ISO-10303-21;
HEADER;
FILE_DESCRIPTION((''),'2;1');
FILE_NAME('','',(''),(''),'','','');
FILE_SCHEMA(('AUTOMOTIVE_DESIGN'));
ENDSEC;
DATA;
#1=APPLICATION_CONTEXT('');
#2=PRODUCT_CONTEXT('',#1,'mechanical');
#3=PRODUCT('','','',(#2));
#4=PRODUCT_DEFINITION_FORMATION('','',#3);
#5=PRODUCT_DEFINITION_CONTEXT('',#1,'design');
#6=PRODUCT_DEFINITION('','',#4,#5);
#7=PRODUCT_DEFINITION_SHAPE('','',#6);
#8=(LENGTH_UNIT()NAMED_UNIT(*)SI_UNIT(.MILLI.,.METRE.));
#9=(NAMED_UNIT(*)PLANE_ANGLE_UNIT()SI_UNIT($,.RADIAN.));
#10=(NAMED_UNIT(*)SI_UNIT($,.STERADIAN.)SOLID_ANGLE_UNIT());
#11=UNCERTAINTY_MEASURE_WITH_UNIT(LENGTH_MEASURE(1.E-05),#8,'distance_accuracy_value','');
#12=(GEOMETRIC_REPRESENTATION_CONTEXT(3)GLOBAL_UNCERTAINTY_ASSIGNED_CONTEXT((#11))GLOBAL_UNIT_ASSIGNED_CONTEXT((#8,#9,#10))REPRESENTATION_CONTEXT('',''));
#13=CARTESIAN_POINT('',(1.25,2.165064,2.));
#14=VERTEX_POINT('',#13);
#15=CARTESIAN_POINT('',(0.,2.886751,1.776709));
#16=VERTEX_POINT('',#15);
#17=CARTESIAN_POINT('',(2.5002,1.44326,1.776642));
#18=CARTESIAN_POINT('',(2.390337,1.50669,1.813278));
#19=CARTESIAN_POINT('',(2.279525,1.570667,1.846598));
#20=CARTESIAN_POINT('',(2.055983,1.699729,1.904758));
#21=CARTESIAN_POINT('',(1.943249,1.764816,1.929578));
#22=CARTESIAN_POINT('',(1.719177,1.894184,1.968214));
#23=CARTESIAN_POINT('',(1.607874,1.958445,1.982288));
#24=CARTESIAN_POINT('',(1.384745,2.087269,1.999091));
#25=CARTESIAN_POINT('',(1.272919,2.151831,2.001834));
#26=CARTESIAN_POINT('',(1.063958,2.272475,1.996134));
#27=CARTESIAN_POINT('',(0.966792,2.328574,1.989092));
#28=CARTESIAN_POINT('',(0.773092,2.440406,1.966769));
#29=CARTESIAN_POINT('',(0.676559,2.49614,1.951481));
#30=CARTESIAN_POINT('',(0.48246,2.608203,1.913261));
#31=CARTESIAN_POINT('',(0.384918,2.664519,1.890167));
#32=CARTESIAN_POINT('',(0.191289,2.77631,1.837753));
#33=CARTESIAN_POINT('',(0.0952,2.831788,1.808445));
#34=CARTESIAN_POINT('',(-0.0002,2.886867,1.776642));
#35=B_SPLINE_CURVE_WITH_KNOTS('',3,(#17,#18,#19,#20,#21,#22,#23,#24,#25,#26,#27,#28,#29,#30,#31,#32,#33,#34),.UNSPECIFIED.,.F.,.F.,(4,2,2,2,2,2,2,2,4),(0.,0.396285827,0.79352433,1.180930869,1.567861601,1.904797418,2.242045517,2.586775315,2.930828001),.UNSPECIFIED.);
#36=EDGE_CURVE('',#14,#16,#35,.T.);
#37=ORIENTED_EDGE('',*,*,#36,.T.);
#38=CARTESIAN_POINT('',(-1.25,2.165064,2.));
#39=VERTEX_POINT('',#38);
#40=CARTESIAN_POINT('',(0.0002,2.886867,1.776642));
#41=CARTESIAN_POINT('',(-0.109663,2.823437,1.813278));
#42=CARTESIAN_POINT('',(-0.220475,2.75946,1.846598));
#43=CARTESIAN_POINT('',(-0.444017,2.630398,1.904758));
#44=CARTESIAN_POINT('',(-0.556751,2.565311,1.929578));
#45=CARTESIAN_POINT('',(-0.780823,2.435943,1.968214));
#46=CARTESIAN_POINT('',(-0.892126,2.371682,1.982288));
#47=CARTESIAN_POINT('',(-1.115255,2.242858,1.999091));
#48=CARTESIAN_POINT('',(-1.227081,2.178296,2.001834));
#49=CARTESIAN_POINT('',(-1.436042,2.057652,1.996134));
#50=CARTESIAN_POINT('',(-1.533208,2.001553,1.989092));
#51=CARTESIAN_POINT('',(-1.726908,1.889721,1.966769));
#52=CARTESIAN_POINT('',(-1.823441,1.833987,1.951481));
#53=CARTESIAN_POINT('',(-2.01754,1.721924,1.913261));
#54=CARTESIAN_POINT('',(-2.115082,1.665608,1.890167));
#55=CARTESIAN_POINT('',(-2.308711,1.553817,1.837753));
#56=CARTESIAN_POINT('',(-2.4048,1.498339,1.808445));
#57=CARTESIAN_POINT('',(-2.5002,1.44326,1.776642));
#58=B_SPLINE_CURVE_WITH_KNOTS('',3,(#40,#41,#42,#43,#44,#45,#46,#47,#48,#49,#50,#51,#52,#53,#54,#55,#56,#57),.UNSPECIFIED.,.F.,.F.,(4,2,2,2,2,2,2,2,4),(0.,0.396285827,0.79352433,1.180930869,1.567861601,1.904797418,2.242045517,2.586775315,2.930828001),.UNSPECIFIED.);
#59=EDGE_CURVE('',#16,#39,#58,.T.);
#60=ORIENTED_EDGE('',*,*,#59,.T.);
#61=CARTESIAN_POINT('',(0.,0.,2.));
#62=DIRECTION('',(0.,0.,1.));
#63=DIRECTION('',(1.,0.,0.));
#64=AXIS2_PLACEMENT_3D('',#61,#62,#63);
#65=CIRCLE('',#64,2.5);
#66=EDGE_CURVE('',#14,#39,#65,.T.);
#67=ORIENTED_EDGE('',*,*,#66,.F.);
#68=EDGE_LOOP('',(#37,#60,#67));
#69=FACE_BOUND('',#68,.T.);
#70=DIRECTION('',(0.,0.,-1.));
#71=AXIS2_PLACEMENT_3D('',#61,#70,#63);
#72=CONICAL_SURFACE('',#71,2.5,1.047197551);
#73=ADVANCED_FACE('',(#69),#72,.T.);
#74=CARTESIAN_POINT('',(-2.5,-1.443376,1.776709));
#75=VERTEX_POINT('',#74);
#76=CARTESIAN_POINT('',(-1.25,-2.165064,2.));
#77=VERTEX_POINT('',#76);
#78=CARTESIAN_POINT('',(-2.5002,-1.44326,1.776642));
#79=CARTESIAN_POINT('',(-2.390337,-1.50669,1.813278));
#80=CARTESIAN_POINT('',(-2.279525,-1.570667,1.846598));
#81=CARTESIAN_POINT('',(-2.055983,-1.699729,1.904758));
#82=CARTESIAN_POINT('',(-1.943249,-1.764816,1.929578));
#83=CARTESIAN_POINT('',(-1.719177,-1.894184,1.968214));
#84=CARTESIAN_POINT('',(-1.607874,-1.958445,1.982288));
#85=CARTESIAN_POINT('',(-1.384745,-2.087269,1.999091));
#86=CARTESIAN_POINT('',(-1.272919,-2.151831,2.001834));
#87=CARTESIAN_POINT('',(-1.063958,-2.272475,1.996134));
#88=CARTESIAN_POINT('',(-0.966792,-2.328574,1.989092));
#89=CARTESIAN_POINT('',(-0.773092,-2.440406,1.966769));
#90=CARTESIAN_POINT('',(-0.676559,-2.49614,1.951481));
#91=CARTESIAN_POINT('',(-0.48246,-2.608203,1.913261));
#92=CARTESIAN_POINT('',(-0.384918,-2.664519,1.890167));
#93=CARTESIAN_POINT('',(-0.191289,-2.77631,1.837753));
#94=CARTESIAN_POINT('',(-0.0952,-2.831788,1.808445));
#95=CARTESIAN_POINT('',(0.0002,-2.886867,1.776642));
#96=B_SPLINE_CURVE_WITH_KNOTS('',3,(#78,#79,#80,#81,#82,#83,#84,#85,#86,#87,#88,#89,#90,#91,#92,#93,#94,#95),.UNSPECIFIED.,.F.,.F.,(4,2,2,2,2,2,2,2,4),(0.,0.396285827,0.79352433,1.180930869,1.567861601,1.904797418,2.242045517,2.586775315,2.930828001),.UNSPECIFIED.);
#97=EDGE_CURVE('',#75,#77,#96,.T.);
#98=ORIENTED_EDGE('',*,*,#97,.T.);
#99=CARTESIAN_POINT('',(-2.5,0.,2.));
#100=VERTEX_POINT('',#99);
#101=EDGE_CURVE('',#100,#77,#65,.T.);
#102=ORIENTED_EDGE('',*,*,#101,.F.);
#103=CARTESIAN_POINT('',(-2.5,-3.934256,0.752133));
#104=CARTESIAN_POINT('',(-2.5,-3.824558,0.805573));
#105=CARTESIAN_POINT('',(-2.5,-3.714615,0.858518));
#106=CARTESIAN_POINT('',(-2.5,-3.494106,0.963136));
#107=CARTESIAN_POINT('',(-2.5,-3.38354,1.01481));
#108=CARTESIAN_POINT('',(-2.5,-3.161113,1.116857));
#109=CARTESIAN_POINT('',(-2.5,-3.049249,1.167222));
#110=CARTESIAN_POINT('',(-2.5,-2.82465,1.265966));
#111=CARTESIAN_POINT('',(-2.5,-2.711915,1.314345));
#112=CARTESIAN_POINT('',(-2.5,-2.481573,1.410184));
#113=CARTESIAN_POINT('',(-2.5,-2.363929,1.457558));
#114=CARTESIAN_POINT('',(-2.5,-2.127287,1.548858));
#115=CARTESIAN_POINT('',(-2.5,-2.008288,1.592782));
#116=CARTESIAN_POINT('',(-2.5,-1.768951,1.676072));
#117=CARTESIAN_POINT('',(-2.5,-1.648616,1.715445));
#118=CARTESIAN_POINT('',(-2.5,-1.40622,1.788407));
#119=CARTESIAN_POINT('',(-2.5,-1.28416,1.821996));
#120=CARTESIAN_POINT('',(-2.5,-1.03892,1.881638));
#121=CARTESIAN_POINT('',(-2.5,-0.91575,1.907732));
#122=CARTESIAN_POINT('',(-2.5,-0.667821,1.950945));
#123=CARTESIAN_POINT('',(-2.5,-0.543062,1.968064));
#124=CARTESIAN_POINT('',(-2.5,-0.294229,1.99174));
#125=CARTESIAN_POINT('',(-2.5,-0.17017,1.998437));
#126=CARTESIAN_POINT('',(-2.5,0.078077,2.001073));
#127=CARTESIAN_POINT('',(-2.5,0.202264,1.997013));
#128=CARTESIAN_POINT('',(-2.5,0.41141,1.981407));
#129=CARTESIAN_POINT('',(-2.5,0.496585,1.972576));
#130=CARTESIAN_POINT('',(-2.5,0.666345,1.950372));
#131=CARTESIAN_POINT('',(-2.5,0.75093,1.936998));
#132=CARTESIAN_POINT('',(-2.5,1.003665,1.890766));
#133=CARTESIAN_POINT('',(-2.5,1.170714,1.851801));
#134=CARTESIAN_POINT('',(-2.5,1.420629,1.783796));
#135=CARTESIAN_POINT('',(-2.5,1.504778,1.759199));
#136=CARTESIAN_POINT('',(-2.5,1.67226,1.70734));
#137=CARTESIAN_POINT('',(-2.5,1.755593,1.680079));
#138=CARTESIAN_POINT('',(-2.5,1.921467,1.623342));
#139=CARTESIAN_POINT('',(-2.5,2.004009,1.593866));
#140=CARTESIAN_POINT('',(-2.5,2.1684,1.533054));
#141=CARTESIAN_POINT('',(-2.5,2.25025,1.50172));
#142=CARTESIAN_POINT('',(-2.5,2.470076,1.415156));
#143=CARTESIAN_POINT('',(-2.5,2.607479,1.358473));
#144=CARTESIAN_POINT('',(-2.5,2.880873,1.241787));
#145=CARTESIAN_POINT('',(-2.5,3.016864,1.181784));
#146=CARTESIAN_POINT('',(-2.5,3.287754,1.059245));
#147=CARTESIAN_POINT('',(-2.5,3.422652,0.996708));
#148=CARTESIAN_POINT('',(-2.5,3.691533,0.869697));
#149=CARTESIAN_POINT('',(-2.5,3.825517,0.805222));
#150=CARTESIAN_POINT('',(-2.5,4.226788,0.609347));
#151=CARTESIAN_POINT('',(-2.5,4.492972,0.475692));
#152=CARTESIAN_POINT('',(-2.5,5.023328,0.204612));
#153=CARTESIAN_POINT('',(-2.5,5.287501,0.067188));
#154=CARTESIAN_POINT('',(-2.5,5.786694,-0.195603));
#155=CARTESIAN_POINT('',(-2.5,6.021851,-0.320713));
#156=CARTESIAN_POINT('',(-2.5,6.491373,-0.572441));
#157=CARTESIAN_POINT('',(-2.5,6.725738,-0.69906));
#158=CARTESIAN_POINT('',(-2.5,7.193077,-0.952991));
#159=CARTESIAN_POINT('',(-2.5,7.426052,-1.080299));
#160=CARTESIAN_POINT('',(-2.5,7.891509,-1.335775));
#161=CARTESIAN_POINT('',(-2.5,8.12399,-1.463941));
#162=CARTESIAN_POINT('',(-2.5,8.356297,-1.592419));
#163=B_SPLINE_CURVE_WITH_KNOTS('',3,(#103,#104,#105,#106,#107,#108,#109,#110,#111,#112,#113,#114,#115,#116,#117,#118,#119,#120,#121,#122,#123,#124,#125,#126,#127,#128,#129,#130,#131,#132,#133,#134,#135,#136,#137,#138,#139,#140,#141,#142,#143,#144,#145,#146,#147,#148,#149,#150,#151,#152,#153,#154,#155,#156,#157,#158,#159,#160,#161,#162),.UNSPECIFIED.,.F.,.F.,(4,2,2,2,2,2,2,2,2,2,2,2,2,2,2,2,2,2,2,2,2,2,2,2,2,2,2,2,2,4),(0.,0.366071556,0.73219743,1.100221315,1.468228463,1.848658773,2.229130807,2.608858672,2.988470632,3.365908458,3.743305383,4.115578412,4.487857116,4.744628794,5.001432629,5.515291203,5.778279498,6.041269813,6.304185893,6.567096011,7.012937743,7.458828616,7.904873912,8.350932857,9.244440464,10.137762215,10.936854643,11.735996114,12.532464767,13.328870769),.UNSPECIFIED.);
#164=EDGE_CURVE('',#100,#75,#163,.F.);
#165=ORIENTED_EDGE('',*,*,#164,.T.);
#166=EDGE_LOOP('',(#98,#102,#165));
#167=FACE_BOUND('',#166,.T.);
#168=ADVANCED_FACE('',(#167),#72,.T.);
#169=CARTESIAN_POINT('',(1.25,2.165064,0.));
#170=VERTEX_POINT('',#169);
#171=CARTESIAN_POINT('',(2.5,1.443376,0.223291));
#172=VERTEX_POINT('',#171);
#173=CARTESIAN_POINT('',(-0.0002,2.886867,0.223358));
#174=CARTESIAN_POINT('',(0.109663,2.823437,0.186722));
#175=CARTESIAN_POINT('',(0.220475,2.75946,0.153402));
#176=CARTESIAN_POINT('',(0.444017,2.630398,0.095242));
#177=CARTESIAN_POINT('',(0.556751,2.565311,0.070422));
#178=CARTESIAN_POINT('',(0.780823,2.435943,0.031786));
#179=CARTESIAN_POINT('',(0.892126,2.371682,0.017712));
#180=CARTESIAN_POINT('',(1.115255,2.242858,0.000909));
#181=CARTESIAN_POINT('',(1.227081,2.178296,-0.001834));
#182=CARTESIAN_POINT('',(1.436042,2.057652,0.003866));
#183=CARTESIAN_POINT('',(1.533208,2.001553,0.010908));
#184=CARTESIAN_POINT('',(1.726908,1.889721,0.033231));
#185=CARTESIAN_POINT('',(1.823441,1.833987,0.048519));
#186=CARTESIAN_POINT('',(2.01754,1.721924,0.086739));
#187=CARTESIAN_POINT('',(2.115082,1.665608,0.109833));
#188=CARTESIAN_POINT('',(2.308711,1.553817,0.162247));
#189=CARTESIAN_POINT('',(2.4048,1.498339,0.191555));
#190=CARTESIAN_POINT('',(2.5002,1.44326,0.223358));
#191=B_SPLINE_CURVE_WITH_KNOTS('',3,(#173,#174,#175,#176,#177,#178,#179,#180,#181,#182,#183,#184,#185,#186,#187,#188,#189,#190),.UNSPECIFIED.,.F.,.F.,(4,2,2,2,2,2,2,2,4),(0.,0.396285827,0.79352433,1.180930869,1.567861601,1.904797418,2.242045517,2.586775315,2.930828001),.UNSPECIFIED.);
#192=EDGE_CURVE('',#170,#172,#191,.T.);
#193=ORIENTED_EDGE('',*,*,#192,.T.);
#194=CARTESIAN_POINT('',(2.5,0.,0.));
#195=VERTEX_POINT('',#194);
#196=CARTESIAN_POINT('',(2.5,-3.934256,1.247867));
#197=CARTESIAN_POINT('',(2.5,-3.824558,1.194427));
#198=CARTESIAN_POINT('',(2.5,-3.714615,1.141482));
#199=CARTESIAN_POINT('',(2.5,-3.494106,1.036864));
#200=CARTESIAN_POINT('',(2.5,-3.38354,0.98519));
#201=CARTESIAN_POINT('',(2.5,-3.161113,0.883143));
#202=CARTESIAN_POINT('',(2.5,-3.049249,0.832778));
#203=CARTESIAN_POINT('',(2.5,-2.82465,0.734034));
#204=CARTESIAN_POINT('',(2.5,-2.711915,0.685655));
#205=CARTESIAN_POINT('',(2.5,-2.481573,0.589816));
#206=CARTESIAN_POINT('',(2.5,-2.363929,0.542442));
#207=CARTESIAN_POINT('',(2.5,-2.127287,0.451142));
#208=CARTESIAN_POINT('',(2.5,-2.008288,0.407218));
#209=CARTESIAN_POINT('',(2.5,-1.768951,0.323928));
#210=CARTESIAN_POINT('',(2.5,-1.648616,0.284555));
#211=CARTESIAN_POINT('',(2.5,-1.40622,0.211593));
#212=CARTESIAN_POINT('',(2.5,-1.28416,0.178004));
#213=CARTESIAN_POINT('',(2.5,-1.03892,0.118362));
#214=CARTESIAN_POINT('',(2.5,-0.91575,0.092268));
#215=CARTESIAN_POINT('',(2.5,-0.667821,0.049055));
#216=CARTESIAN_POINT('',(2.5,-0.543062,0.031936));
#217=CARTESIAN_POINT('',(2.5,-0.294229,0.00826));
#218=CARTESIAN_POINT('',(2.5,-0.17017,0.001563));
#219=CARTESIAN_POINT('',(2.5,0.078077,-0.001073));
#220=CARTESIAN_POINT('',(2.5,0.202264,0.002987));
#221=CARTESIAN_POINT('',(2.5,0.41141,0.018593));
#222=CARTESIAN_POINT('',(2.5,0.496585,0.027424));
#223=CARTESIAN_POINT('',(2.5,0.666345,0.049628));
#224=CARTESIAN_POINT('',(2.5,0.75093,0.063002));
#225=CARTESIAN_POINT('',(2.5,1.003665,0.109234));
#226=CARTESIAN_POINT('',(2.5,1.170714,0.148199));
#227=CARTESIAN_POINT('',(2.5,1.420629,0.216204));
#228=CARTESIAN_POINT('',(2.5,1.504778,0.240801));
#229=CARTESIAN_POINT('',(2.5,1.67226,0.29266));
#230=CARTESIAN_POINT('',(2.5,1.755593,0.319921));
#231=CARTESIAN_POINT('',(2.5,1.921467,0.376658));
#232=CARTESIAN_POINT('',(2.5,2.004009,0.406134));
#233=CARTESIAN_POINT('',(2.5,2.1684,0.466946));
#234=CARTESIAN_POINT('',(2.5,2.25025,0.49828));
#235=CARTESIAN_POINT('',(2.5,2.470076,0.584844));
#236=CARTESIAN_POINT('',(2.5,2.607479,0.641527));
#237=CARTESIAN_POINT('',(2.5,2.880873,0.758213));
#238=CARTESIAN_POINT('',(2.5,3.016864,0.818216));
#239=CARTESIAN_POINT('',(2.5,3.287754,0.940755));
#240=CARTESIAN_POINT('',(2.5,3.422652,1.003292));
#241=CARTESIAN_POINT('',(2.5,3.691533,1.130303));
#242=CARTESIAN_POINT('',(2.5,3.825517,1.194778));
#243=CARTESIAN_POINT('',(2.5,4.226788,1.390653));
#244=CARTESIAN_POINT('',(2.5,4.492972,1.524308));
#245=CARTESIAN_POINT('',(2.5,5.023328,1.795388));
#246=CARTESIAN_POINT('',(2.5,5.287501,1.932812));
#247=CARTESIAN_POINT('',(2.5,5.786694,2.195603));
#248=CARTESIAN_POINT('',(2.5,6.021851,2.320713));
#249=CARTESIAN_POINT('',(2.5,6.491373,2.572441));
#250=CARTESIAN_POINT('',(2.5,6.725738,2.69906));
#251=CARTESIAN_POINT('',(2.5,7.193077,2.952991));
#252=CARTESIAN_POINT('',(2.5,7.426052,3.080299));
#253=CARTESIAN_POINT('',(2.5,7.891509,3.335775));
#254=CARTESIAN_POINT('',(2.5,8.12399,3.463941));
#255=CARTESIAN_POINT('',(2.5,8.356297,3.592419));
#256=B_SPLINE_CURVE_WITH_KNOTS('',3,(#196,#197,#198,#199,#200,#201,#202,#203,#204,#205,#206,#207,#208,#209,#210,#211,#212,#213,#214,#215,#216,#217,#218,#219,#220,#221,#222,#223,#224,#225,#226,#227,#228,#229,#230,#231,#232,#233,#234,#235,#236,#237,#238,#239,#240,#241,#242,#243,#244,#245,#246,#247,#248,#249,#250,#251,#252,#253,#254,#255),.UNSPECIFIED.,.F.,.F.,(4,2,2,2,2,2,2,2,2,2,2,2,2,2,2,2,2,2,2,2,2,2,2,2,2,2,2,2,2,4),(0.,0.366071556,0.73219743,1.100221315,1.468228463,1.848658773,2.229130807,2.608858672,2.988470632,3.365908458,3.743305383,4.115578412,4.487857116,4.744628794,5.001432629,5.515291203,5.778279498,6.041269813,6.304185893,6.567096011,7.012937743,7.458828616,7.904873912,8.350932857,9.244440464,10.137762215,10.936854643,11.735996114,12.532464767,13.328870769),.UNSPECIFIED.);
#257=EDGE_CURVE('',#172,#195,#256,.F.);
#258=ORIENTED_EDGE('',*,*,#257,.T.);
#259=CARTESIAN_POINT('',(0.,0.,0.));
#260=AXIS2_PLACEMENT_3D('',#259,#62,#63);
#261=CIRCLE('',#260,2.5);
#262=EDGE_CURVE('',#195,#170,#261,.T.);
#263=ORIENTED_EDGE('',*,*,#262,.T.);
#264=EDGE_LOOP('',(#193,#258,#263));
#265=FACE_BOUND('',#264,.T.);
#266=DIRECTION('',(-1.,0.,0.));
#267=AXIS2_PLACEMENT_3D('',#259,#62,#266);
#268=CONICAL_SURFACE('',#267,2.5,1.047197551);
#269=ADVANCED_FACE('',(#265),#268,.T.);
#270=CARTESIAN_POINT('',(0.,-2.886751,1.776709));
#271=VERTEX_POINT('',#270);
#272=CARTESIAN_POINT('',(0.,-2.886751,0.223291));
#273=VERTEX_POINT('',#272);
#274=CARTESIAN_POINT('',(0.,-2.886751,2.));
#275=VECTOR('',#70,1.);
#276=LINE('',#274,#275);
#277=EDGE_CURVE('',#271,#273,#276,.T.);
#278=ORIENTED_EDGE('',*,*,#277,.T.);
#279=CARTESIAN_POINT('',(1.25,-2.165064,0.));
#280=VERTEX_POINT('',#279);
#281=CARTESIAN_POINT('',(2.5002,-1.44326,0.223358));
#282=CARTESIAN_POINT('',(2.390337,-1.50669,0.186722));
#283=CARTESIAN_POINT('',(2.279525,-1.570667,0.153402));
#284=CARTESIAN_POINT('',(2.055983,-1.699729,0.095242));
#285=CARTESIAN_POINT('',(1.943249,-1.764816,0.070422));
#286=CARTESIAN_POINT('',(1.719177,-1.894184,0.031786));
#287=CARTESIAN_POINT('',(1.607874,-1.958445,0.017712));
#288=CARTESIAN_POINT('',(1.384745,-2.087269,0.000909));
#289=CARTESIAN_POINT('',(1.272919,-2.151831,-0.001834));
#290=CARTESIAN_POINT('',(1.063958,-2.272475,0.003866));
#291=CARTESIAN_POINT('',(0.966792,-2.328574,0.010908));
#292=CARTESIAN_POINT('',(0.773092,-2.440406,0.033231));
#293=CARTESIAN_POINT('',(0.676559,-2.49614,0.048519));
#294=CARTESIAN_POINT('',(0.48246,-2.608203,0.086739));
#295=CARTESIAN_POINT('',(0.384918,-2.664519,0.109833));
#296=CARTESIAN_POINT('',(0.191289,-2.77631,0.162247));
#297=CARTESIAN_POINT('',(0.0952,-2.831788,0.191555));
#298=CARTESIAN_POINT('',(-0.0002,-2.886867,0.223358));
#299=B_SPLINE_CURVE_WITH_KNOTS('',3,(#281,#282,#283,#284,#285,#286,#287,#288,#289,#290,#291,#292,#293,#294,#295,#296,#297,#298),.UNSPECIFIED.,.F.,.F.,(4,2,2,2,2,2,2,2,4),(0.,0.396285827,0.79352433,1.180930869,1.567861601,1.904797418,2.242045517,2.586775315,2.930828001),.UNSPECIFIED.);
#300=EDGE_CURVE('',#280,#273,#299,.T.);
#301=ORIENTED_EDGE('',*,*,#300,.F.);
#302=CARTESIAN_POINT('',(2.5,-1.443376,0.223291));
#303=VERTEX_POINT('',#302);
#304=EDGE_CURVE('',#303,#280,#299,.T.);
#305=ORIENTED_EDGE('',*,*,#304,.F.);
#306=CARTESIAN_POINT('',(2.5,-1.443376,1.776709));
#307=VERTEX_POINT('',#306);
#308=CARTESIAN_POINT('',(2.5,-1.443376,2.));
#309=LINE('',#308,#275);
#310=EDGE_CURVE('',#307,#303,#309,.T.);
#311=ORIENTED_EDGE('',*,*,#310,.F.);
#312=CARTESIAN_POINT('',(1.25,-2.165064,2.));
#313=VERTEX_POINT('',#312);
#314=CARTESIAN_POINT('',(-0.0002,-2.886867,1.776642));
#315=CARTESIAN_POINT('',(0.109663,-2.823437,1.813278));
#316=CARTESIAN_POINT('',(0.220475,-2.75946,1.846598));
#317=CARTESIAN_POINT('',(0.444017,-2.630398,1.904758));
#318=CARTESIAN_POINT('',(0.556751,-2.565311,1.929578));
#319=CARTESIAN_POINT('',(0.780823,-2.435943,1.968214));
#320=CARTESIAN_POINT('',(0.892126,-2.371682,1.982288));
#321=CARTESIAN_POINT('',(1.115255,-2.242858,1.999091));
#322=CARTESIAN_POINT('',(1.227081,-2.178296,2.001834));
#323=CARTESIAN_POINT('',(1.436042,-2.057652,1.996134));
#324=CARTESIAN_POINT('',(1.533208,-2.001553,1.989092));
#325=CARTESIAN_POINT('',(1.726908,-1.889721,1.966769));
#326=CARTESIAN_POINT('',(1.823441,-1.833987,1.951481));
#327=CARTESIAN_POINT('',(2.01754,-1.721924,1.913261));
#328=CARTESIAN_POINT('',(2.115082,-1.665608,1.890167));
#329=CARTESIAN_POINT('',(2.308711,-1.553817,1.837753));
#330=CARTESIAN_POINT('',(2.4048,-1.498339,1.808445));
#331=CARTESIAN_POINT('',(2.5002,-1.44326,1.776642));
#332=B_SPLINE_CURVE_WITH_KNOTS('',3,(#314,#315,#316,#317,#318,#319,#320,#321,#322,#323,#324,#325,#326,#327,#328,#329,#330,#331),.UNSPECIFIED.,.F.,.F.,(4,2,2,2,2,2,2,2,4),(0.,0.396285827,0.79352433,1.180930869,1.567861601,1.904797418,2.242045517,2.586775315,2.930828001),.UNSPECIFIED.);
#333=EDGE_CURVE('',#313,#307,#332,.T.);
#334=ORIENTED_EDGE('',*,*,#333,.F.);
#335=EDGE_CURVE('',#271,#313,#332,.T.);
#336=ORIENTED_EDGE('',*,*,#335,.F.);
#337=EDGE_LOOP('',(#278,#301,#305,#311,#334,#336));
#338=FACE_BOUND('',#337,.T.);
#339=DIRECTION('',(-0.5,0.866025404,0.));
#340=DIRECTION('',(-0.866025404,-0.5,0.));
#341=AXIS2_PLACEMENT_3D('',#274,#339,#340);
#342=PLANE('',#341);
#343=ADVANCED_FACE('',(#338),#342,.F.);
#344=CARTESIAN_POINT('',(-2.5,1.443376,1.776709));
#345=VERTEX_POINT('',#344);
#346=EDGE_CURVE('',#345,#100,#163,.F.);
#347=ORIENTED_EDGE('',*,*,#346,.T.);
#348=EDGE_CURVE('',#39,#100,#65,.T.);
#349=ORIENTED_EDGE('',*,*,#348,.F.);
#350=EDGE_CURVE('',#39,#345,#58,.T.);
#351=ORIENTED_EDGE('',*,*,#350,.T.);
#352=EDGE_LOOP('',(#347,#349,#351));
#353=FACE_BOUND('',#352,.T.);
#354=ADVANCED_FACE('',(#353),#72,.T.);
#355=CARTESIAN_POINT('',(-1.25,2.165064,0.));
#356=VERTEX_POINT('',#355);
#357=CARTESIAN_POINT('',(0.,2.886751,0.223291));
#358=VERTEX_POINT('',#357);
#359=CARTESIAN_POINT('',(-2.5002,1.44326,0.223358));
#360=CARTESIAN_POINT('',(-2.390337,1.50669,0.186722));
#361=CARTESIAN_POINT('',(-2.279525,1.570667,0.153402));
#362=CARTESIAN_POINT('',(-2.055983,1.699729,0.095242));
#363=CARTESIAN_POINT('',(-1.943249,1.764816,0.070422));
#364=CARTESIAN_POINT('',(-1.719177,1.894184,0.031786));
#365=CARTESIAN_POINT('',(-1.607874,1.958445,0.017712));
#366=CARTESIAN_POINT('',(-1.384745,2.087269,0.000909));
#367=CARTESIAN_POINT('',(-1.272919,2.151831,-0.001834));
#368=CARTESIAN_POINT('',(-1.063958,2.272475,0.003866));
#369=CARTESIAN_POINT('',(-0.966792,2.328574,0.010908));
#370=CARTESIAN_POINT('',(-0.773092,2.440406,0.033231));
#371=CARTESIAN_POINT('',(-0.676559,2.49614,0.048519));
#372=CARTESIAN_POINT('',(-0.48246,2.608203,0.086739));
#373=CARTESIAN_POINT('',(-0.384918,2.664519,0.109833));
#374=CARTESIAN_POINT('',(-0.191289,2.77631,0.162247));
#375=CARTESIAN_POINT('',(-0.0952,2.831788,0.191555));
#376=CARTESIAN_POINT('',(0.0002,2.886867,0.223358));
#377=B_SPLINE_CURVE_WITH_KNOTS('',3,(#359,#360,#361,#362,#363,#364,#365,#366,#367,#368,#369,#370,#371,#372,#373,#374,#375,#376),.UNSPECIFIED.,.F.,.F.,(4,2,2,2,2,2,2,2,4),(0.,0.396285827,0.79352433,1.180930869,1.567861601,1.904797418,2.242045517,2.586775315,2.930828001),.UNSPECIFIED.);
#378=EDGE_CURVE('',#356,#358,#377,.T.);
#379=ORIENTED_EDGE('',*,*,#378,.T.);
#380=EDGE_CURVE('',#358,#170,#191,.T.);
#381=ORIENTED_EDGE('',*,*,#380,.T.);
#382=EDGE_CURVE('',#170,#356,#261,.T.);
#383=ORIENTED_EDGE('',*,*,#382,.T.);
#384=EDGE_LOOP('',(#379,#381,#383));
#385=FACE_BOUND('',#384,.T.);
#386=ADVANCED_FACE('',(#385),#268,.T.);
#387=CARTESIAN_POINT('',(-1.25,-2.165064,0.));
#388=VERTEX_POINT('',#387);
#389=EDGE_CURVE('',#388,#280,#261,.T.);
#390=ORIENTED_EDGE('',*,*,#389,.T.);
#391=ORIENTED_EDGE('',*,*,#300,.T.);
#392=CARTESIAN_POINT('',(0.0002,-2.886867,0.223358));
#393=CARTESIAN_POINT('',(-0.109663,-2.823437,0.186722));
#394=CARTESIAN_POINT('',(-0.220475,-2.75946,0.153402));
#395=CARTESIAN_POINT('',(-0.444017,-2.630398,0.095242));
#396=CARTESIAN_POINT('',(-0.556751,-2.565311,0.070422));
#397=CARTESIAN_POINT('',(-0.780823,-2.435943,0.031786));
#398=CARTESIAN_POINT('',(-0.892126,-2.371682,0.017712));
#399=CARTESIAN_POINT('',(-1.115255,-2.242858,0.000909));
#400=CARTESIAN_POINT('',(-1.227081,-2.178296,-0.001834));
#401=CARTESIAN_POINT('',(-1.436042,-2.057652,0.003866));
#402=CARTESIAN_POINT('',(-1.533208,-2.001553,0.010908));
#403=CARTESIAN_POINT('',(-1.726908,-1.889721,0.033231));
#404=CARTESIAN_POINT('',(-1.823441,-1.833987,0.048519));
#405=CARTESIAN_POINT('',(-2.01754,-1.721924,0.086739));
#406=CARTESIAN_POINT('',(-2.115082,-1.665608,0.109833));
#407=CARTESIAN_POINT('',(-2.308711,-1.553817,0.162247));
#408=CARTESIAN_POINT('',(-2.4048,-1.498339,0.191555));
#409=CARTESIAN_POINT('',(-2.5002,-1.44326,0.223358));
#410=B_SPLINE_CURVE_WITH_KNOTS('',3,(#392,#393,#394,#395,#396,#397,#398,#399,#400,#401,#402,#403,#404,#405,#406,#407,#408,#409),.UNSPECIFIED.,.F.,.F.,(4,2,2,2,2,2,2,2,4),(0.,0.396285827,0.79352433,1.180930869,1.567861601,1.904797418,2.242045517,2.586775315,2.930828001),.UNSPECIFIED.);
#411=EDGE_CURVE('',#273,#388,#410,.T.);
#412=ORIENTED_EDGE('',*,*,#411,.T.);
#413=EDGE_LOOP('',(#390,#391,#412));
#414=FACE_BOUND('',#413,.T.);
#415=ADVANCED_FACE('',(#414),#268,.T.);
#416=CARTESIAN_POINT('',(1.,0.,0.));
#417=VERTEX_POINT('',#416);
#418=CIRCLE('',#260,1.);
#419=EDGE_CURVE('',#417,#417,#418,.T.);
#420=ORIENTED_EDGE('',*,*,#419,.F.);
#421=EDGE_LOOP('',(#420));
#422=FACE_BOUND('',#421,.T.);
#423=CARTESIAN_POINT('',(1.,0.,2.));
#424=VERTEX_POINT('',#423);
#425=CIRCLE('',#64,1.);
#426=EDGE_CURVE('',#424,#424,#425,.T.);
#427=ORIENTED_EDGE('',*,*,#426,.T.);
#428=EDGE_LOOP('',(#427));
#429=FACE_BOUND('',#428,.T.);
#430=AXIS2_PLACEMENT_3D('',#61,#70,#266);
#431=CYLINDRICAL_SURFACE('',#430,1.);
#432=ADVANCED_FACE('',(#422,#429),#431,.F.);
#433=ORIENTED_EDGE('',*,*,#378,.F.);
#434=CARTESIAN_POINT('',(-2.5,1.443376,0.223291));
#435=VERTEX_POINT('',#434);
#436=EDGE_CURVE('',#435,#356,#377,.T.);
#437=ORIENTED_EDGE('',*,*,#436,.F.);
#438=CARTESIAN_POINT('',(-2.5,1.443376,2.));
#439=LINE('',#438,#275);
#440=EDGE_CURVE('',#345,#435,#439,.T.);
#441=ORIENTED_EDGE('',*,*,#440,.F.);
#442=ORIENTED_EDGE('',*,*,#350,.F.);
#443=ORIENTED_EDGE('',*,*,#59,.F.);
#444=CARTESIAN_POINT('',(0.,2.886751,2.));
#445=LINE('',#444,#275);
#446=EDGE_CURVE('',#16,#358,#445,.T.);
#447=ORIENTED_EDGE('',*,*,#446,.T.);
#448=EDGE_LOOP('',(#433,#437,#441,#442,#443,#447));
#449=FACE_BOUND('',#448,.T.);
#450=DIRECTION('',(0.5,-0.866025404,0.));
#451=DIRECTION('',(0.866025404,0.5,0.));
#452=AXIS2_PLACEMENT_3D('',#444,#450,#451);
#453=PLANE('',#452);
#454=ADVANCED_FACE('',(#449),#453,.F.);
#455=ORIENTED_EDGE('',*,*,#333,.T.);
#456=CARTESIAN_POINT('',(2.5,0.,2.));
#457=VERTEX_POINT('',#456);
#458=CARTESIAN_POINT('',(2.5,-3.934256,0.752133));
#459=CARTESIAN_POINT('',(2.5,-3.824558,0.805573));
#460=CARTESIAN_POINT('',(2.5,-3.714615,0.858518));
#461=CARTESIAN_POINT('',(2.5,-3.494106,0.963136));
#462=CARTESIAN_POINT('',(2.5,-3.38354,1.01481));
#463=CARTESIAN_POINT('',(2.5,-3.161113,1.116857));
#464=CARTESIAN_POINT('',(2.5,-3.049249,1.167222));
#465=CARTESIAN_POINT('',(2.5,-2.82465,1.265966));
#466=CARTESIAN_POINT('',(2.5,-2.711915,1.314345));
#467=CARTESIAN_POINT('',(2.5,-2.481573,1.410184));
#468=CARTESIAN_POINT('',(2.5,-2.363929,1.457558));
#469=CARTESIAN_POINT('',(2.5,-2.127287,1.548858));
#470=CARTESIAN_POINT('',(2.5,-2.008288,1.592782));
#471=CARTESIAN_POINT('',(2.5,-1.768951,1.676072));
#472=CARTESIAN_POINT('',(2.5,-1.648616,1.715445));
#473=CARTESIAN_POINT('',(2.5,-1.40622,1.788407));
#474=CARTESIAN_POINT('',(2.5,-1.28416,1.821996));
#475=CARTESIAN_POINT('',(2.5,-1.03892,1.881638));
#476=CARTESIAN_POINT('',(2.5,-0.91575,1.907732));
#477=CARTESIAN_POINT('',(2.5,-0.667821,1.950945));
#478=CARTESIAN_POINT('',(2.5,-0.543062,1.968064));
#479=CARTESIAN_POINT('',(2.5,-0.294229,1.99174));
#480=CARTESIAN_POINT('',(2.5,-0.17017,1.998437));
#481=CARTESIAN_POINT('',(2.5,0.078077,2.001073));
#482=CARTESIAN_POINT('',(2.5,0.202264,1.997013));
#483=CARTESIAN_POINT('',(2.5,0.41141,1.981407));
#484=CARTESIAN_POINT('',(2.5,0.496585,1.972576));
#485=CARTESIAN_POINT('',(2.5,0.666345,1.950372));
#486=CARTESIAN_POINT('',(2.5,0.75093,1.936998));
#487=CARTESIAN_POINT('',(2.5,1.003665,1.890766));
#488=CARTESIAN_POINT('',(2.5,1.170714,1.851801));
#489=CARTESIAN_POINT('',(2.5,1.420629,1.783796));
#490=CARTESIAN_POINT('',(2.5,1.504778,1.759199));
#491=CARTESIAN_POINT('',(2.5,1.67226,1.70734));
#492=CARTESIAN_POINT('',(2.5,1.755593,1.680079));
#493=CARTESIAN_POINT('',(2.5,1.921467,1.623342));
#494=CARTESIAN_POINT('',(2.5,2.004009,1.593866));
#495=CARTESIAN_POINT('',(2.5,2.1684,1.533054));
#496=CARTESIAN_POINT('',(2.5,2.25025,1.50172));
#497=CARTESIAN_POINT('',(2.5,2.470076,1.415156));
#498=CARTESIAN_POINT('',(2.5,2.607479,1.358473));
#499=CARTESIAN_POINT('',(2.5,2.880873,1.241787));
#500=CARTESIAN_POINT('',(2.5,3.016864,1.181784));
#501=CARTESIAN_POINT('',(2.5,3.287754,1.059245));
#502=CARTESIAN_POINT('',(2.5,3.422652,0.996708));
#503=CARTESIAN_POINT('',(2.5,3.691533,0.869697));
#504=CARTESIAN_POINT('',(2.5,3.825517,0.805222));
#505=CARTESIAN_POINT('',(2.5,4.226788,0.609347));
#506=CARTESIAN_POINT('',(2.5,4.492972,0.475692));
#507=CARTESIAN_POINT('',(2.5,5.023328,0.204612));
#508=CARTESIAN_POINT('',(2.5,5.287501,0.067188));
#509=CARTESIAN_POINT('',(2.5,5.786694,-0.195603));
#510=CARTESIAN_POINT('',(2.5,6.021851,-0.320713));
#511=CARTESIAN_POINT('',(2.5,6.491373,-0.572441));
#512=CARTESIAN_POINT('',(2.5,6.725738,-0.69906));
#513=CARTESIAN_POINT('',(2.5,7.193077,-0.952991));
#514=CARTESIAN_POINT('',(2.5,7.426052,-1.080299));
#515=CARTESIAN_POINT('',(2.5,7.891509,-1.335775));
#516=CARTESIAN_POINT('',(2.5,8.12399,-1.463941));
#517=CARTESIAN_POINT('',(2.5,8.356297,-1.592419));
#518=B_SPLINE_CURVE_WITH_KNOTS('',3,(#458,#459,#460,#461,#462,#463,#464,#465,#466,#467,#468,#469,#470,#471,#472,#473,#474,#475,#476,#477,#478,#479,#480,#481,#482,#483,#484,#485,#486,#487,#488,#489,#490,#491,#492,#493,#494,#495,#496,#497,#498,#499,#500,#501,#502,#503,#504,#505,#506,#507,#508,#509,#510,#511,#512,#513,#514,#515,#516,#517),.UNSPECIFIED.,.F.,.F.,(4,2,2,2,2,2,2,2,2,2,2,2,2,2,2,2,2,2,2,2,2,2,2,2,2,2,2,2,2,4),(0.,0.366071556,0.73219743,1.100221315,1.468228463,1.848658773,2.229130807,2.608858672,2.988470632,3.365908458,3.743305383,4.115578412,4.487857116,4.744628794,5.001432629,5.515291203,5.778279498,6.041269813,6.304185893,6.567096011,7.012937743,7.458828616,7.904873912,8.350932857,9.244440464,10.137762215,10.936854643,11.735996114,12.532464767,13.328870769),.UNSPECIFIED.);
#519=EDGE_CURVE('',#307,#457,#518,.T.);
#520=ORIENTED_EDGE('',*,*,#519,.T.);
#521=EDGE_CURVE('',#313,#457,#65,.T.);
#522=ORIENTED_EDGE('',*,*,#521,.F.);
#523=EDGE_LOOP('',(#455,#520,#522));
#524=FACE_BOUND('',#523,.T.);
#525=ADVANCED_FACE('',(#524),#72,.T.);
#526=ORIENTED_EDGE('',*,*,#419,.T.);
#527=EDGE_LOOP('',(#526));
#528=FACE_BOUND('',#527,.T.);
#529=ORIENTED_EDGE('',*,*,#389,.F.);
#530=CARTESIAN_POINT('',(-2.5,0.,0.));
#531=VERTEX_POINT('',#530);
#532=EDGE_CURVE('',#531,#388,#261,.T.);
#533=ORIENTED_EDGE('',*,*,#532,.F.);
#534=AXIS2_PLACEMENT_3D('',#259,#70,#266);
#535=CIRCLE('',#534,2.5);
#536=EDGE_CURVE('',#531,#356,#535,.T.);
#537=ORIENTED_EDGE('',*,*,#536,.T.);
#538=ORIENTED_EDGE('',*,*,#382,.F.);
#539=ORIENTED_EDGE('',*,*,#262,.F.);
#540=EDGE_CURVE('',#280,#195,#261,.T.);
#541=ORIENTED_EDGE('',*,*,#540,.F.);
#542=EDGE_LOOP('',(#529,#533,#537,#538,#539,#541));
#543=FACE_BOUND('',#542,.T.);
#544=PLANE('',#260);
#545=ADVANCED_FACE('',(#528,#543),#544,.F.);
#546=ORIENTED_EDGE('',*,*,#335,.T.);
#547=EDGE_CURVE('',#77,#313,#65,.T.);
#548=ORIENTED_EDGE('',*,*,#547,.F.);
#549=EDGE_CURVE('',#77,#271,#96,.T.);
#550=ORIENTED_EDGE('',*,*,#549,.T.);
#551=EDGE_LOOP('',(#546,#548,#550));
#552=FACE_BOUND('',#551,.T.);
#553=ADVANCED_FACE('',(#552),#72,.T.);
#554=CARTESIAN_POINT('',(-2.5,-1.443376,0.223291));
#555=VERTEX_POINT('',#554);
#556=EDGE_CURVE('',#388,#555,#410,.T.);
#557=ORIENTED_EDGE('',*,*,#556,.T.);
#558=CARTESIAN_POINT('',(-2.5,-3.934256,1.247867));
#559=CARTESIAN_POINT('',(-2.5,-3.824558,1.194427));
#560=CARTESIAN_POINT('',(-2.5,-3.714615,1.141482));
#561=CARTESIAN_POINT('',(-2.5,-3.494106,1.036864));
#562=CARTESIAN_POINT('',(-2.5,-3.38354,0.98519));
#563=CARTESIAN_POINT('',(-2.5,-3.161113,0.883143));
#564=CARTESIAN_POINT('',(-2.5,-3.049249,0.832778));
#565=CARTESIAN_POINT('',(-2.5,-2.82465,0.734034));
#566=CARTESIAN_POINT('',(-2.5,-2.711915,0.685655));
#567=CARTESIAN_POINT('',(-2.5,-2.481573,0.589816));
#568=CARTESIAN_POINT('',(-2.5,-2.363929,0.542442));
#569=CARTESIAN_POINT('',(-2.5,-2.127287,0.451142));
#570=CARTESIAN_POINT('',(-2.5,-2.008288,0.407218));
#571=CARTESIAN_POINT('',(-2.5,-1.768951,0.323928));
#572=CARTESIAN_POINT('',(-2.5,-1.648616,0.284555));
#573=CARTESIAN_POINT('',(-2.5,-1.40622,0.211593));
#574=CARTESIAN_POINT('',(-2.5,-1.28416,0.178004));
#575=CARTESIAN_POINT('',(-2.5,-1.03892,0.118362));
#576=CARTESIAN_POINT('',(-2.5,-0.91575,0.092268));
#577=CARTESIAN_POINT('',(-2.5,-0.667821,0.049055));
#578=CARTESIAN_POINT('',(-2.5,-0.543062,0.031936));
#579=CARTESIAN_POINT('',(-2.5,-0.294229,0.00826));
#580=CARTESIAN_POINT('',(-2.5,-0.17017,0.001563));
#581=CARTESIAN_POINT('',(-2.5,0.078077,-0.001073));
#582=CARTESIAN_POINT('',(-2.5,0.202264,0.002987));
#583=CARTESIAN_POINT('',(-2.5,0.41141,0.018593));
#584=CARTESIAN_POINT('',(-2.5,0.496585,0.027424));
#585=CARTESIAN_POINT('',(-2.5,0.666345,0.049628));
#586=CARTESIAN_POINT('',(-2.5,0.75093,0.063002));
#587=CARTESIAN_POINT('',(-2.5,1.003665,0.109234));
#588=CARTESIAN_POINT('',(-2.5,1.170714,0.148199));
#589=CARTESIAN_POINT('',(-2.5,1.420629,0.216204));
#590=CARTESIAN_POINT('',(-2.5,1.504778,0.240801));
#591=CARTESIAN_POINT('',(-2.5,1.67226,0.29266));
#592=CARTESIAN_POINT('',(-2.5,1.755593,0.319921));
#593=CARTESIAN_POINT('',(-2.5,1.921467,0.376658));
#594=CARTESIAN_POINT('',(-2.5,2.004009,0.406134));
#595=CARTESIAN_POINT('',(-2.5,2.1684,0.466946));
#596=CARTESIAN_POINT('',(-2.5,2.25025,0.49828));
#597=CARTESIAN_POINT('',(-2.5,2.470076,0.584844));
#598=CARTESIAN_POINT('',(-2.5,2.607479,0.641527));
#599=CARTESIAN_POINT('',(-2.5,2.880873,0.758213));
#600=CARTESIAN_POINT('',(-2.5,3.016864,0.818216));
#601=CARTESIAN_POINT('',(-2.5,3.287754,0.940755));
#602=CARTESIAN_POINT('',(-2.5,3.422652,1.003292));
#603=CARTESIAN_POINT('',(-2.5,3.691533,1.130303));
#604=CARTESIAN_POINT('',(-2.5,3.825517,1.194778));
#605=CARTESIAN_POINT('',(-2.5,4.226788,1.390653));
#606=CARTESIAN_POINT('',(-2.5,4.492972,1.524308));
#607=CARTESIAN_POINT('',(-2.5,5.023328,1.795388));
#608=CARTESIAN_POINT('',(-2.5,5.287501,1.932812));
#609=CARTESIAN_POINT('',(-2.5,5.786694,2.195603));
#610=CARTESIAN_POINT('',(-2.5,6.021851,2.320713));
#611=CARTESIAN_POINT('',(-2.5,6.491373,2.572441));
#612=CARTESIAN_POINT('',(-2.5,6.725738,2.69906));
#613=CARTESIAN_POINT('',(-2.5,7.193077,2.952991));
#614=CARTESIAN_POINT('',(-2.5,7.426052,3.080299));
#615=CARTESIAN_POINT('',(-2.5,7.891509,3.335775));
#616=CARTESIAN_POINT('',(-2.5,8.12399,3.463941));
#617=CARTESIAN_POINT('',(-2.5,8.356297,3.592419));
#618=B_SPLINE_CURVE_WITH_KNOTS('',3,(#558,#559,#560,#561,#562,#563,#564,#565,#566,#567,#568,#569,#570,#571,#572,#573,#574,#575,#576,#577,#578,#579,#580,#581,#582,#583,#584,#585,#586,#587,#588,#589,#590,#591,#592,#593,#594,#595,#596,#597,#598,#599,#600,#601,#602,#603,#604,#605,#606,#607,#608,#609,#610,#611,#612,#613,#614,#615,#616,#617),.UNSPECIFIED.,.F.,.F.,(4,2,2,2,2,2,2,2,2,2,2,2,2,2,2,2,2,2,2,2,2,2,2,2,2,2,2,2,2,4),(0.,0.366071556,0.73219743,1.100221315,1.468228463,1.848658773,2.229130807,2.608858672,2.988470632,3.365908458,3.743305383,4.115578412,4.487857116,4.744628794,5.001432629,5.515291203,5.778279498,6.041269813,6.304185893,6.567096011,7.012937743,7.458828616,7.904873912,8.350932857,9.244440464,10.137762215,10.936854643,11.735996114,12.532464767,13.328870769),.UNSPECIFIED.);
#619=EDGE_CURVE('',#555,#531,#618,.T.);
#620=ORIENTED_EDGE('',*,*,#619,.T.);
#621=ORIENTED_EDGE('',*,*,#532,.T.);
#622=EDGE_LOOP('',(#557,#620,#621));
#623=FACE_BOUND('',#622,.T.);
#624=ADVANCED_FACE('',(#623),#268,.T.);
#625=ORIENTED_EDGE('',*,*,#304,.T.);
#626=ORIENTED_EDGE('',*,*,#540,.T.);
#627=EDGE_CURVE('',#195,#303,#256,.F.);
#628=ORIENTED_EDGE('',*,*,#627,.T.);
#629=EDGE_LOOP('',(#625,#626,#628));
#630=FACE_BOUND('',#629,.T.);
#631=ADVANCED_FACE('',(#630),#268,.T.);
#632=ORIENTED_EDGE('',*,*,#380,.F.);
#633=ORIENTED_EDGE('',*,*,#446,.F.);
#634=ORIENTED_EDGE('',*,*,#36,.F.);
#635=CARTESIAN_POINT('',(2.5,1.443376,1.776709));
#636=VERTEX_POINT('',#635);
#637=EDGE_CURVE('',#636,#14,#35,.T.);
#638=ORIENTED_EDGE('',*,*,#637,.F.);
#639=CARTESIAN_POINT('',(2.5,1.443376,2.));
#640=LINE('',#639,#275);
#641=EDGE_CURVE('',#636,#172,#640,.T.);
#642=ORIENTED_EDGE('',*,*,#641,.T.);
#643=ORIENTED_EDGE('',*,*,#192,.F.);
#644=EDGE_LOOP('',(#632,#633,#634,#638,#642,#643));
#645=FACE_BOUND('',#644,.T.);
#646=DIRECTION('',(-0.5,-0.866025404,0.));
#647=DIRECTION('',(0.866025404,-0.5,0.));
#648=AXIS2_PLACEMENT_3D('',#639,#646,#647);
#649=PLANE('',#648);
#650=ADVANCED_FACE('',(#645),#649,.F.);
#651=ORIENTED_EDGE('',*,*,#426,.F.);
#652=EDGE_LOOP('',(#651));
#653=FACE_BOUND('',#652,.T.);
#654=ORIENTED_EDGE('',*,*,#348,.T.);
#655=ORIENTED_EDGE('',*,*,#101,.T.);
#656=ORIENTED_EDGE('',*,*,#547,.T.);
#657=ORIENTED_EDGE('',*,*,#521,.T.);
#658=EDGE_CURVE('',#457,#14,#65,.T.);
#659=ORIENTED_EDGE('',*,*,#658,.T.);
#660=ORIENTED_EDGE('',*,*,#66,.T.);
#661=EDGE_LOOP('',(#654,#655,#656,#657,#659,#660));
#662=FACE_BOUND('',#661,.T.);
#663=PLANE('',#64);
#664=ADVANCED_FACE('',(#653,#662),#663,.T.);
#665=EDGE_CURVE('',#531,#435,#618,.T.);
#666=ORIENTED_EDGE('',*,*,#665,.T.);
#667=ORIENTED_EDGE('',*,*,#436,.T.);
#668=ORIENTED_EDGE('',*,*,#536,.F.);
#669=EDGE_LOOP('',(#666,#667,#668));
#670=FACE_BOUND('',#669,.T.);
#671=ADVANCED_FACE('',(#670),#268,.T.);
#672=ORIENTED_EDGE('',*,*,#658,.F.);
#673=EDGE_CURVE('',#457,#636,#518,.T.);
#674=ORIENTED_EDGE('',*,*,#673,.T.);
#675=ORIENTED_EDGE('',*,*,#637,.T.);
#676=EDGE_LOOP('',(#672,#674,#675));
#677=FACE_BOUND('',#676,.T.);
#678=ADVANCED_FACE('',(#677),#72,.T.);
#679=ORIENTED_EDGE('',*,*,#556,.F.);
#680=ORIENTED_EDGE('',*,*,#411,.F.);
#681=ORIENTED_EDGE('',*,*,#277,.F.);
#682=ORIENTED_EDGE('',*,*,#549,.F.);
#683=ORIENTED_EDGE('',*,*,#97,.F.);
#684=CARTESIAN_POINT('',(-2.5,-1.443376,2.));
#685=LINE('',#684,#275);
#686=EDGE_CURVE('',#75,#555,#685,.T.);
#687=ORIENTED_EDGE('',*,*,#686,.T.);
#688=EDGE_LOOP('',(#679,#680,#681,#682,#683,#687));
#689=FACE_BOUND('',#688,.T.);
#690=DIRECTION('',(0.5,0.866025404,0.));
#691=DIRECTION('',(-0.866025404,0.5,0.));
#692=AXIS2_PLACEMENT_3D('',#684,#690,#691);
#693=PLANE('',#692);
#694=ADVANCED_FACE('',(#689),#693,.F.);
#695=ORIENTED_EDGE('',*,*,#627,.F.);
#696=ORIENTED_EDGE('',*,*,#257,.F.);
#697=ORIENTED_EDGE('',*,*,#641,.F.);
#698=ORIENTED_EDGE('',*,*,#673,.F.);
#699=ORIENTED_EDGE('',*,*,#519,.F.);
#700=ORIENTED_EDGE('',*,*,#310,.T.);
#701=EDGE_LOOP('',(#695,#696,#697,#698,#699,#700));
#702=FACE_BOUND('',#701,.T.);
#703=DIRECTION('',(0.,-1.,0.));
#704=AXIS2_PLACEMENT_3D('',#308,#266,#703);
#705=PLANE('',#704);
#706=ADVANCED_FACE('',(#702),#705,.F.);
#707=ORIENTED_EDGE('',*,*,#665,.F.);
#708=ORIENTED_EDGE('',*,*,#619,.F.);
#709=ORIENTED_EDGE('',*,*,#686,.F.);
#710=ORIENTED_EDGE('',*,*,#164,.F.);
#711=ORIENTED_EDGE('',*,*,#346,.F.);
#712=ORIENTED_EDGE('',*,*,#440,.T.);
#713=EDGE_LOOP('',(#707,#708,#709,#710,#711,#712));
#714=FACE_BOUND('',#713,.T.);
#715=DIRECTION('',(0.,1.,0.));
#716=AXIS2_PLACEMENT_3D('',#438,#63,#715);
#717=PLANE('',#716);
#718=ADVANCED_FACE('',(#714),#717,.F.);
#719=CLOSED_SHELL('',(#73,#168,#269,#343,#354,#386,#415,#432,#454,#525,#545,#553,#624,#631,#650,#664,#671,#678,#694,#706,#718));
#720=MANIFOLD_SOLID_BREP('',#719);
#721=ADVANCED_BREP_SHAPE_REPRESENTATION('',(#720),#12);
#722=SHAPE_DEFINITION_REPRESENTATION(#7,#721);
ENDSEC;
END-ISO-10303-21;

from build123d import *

# Parameters (mm, degrees)
SKETCH1_R           = 1
BOSS_EXTRUDE1_DEPTH = 2
SKETCH2_OUTSIDE_W   = 15.508
SKETCH2_OUTSIDE_H   = 16.282
SKETCH2_OUTSIDE_R   = 2.5
CUT_EXTRUDE1_DEPTH  = 2
CUT_EXTRUDE1_TAPER  = 60
SKETCH3_OUTSIDE_W   = 15.508
SKETCH3_OUTSIDE_H   = 16.282
SKETCH3_OUTSIDE_R   = 2.5
CUT_EXTRUDE2_DEPTH  = 2
CUT_EXTRUDE2_TAPER  = 60


with BuildPart() as part:
    # Sketch1 → Boss-Extrude1 (new body)
    with BuildSketch(Plane.XY):
        Polygon((0, -2.886751346), (2.5, -1.443375673), (2.5, 1.443375673), (0, 2.886751346), (-2.5, 1.443375673), (-2.5, -1.443375673), align=None)
        Circle(SKETCH1_R, mode=Mode.SUBTRACT)
    extrude(amount=BOSS_EXTRUDE1_DEPTH)

    # Sketch2 outside → Cut-Extrude1 (cut)
    with BuildSketch(Plane.XY.offset(2)):
        Rectangle(SKETCH2_OUTSIDE_W, SKETCH2_OUTSIDE_H)
        Circle(SKETCH2_OUTSIDE_R, mode=Mode.SUBTRACT)
    extrude(amount=-CUT_EXTRUDE1_DEPTH, taper=CUT_EXTRUDE1_TAPER, mode=Mode.SUBTRACT)

    # Sketch3 outside → Cut-Extrude2 (cut)
    with BuildSketch(Plane(origin=(0, 0, 0), x_dir=(-1, 0, 0), z_dir=(0, 0, -1))):
        Rectangle(SKETCH3_OUTSIDE_W, SKETCH3_OUTSIDE_H)
        Circle(SKETCH3_OUTSIDE_R, mode=Mode.SUBTRACT)
    extrude(amount=-CUT_EXTRUDE2_DEPTH, taper=CUT_EXTRUDE2_TAPER, mode=Mode.SUBTRACT)


solid = part.part
